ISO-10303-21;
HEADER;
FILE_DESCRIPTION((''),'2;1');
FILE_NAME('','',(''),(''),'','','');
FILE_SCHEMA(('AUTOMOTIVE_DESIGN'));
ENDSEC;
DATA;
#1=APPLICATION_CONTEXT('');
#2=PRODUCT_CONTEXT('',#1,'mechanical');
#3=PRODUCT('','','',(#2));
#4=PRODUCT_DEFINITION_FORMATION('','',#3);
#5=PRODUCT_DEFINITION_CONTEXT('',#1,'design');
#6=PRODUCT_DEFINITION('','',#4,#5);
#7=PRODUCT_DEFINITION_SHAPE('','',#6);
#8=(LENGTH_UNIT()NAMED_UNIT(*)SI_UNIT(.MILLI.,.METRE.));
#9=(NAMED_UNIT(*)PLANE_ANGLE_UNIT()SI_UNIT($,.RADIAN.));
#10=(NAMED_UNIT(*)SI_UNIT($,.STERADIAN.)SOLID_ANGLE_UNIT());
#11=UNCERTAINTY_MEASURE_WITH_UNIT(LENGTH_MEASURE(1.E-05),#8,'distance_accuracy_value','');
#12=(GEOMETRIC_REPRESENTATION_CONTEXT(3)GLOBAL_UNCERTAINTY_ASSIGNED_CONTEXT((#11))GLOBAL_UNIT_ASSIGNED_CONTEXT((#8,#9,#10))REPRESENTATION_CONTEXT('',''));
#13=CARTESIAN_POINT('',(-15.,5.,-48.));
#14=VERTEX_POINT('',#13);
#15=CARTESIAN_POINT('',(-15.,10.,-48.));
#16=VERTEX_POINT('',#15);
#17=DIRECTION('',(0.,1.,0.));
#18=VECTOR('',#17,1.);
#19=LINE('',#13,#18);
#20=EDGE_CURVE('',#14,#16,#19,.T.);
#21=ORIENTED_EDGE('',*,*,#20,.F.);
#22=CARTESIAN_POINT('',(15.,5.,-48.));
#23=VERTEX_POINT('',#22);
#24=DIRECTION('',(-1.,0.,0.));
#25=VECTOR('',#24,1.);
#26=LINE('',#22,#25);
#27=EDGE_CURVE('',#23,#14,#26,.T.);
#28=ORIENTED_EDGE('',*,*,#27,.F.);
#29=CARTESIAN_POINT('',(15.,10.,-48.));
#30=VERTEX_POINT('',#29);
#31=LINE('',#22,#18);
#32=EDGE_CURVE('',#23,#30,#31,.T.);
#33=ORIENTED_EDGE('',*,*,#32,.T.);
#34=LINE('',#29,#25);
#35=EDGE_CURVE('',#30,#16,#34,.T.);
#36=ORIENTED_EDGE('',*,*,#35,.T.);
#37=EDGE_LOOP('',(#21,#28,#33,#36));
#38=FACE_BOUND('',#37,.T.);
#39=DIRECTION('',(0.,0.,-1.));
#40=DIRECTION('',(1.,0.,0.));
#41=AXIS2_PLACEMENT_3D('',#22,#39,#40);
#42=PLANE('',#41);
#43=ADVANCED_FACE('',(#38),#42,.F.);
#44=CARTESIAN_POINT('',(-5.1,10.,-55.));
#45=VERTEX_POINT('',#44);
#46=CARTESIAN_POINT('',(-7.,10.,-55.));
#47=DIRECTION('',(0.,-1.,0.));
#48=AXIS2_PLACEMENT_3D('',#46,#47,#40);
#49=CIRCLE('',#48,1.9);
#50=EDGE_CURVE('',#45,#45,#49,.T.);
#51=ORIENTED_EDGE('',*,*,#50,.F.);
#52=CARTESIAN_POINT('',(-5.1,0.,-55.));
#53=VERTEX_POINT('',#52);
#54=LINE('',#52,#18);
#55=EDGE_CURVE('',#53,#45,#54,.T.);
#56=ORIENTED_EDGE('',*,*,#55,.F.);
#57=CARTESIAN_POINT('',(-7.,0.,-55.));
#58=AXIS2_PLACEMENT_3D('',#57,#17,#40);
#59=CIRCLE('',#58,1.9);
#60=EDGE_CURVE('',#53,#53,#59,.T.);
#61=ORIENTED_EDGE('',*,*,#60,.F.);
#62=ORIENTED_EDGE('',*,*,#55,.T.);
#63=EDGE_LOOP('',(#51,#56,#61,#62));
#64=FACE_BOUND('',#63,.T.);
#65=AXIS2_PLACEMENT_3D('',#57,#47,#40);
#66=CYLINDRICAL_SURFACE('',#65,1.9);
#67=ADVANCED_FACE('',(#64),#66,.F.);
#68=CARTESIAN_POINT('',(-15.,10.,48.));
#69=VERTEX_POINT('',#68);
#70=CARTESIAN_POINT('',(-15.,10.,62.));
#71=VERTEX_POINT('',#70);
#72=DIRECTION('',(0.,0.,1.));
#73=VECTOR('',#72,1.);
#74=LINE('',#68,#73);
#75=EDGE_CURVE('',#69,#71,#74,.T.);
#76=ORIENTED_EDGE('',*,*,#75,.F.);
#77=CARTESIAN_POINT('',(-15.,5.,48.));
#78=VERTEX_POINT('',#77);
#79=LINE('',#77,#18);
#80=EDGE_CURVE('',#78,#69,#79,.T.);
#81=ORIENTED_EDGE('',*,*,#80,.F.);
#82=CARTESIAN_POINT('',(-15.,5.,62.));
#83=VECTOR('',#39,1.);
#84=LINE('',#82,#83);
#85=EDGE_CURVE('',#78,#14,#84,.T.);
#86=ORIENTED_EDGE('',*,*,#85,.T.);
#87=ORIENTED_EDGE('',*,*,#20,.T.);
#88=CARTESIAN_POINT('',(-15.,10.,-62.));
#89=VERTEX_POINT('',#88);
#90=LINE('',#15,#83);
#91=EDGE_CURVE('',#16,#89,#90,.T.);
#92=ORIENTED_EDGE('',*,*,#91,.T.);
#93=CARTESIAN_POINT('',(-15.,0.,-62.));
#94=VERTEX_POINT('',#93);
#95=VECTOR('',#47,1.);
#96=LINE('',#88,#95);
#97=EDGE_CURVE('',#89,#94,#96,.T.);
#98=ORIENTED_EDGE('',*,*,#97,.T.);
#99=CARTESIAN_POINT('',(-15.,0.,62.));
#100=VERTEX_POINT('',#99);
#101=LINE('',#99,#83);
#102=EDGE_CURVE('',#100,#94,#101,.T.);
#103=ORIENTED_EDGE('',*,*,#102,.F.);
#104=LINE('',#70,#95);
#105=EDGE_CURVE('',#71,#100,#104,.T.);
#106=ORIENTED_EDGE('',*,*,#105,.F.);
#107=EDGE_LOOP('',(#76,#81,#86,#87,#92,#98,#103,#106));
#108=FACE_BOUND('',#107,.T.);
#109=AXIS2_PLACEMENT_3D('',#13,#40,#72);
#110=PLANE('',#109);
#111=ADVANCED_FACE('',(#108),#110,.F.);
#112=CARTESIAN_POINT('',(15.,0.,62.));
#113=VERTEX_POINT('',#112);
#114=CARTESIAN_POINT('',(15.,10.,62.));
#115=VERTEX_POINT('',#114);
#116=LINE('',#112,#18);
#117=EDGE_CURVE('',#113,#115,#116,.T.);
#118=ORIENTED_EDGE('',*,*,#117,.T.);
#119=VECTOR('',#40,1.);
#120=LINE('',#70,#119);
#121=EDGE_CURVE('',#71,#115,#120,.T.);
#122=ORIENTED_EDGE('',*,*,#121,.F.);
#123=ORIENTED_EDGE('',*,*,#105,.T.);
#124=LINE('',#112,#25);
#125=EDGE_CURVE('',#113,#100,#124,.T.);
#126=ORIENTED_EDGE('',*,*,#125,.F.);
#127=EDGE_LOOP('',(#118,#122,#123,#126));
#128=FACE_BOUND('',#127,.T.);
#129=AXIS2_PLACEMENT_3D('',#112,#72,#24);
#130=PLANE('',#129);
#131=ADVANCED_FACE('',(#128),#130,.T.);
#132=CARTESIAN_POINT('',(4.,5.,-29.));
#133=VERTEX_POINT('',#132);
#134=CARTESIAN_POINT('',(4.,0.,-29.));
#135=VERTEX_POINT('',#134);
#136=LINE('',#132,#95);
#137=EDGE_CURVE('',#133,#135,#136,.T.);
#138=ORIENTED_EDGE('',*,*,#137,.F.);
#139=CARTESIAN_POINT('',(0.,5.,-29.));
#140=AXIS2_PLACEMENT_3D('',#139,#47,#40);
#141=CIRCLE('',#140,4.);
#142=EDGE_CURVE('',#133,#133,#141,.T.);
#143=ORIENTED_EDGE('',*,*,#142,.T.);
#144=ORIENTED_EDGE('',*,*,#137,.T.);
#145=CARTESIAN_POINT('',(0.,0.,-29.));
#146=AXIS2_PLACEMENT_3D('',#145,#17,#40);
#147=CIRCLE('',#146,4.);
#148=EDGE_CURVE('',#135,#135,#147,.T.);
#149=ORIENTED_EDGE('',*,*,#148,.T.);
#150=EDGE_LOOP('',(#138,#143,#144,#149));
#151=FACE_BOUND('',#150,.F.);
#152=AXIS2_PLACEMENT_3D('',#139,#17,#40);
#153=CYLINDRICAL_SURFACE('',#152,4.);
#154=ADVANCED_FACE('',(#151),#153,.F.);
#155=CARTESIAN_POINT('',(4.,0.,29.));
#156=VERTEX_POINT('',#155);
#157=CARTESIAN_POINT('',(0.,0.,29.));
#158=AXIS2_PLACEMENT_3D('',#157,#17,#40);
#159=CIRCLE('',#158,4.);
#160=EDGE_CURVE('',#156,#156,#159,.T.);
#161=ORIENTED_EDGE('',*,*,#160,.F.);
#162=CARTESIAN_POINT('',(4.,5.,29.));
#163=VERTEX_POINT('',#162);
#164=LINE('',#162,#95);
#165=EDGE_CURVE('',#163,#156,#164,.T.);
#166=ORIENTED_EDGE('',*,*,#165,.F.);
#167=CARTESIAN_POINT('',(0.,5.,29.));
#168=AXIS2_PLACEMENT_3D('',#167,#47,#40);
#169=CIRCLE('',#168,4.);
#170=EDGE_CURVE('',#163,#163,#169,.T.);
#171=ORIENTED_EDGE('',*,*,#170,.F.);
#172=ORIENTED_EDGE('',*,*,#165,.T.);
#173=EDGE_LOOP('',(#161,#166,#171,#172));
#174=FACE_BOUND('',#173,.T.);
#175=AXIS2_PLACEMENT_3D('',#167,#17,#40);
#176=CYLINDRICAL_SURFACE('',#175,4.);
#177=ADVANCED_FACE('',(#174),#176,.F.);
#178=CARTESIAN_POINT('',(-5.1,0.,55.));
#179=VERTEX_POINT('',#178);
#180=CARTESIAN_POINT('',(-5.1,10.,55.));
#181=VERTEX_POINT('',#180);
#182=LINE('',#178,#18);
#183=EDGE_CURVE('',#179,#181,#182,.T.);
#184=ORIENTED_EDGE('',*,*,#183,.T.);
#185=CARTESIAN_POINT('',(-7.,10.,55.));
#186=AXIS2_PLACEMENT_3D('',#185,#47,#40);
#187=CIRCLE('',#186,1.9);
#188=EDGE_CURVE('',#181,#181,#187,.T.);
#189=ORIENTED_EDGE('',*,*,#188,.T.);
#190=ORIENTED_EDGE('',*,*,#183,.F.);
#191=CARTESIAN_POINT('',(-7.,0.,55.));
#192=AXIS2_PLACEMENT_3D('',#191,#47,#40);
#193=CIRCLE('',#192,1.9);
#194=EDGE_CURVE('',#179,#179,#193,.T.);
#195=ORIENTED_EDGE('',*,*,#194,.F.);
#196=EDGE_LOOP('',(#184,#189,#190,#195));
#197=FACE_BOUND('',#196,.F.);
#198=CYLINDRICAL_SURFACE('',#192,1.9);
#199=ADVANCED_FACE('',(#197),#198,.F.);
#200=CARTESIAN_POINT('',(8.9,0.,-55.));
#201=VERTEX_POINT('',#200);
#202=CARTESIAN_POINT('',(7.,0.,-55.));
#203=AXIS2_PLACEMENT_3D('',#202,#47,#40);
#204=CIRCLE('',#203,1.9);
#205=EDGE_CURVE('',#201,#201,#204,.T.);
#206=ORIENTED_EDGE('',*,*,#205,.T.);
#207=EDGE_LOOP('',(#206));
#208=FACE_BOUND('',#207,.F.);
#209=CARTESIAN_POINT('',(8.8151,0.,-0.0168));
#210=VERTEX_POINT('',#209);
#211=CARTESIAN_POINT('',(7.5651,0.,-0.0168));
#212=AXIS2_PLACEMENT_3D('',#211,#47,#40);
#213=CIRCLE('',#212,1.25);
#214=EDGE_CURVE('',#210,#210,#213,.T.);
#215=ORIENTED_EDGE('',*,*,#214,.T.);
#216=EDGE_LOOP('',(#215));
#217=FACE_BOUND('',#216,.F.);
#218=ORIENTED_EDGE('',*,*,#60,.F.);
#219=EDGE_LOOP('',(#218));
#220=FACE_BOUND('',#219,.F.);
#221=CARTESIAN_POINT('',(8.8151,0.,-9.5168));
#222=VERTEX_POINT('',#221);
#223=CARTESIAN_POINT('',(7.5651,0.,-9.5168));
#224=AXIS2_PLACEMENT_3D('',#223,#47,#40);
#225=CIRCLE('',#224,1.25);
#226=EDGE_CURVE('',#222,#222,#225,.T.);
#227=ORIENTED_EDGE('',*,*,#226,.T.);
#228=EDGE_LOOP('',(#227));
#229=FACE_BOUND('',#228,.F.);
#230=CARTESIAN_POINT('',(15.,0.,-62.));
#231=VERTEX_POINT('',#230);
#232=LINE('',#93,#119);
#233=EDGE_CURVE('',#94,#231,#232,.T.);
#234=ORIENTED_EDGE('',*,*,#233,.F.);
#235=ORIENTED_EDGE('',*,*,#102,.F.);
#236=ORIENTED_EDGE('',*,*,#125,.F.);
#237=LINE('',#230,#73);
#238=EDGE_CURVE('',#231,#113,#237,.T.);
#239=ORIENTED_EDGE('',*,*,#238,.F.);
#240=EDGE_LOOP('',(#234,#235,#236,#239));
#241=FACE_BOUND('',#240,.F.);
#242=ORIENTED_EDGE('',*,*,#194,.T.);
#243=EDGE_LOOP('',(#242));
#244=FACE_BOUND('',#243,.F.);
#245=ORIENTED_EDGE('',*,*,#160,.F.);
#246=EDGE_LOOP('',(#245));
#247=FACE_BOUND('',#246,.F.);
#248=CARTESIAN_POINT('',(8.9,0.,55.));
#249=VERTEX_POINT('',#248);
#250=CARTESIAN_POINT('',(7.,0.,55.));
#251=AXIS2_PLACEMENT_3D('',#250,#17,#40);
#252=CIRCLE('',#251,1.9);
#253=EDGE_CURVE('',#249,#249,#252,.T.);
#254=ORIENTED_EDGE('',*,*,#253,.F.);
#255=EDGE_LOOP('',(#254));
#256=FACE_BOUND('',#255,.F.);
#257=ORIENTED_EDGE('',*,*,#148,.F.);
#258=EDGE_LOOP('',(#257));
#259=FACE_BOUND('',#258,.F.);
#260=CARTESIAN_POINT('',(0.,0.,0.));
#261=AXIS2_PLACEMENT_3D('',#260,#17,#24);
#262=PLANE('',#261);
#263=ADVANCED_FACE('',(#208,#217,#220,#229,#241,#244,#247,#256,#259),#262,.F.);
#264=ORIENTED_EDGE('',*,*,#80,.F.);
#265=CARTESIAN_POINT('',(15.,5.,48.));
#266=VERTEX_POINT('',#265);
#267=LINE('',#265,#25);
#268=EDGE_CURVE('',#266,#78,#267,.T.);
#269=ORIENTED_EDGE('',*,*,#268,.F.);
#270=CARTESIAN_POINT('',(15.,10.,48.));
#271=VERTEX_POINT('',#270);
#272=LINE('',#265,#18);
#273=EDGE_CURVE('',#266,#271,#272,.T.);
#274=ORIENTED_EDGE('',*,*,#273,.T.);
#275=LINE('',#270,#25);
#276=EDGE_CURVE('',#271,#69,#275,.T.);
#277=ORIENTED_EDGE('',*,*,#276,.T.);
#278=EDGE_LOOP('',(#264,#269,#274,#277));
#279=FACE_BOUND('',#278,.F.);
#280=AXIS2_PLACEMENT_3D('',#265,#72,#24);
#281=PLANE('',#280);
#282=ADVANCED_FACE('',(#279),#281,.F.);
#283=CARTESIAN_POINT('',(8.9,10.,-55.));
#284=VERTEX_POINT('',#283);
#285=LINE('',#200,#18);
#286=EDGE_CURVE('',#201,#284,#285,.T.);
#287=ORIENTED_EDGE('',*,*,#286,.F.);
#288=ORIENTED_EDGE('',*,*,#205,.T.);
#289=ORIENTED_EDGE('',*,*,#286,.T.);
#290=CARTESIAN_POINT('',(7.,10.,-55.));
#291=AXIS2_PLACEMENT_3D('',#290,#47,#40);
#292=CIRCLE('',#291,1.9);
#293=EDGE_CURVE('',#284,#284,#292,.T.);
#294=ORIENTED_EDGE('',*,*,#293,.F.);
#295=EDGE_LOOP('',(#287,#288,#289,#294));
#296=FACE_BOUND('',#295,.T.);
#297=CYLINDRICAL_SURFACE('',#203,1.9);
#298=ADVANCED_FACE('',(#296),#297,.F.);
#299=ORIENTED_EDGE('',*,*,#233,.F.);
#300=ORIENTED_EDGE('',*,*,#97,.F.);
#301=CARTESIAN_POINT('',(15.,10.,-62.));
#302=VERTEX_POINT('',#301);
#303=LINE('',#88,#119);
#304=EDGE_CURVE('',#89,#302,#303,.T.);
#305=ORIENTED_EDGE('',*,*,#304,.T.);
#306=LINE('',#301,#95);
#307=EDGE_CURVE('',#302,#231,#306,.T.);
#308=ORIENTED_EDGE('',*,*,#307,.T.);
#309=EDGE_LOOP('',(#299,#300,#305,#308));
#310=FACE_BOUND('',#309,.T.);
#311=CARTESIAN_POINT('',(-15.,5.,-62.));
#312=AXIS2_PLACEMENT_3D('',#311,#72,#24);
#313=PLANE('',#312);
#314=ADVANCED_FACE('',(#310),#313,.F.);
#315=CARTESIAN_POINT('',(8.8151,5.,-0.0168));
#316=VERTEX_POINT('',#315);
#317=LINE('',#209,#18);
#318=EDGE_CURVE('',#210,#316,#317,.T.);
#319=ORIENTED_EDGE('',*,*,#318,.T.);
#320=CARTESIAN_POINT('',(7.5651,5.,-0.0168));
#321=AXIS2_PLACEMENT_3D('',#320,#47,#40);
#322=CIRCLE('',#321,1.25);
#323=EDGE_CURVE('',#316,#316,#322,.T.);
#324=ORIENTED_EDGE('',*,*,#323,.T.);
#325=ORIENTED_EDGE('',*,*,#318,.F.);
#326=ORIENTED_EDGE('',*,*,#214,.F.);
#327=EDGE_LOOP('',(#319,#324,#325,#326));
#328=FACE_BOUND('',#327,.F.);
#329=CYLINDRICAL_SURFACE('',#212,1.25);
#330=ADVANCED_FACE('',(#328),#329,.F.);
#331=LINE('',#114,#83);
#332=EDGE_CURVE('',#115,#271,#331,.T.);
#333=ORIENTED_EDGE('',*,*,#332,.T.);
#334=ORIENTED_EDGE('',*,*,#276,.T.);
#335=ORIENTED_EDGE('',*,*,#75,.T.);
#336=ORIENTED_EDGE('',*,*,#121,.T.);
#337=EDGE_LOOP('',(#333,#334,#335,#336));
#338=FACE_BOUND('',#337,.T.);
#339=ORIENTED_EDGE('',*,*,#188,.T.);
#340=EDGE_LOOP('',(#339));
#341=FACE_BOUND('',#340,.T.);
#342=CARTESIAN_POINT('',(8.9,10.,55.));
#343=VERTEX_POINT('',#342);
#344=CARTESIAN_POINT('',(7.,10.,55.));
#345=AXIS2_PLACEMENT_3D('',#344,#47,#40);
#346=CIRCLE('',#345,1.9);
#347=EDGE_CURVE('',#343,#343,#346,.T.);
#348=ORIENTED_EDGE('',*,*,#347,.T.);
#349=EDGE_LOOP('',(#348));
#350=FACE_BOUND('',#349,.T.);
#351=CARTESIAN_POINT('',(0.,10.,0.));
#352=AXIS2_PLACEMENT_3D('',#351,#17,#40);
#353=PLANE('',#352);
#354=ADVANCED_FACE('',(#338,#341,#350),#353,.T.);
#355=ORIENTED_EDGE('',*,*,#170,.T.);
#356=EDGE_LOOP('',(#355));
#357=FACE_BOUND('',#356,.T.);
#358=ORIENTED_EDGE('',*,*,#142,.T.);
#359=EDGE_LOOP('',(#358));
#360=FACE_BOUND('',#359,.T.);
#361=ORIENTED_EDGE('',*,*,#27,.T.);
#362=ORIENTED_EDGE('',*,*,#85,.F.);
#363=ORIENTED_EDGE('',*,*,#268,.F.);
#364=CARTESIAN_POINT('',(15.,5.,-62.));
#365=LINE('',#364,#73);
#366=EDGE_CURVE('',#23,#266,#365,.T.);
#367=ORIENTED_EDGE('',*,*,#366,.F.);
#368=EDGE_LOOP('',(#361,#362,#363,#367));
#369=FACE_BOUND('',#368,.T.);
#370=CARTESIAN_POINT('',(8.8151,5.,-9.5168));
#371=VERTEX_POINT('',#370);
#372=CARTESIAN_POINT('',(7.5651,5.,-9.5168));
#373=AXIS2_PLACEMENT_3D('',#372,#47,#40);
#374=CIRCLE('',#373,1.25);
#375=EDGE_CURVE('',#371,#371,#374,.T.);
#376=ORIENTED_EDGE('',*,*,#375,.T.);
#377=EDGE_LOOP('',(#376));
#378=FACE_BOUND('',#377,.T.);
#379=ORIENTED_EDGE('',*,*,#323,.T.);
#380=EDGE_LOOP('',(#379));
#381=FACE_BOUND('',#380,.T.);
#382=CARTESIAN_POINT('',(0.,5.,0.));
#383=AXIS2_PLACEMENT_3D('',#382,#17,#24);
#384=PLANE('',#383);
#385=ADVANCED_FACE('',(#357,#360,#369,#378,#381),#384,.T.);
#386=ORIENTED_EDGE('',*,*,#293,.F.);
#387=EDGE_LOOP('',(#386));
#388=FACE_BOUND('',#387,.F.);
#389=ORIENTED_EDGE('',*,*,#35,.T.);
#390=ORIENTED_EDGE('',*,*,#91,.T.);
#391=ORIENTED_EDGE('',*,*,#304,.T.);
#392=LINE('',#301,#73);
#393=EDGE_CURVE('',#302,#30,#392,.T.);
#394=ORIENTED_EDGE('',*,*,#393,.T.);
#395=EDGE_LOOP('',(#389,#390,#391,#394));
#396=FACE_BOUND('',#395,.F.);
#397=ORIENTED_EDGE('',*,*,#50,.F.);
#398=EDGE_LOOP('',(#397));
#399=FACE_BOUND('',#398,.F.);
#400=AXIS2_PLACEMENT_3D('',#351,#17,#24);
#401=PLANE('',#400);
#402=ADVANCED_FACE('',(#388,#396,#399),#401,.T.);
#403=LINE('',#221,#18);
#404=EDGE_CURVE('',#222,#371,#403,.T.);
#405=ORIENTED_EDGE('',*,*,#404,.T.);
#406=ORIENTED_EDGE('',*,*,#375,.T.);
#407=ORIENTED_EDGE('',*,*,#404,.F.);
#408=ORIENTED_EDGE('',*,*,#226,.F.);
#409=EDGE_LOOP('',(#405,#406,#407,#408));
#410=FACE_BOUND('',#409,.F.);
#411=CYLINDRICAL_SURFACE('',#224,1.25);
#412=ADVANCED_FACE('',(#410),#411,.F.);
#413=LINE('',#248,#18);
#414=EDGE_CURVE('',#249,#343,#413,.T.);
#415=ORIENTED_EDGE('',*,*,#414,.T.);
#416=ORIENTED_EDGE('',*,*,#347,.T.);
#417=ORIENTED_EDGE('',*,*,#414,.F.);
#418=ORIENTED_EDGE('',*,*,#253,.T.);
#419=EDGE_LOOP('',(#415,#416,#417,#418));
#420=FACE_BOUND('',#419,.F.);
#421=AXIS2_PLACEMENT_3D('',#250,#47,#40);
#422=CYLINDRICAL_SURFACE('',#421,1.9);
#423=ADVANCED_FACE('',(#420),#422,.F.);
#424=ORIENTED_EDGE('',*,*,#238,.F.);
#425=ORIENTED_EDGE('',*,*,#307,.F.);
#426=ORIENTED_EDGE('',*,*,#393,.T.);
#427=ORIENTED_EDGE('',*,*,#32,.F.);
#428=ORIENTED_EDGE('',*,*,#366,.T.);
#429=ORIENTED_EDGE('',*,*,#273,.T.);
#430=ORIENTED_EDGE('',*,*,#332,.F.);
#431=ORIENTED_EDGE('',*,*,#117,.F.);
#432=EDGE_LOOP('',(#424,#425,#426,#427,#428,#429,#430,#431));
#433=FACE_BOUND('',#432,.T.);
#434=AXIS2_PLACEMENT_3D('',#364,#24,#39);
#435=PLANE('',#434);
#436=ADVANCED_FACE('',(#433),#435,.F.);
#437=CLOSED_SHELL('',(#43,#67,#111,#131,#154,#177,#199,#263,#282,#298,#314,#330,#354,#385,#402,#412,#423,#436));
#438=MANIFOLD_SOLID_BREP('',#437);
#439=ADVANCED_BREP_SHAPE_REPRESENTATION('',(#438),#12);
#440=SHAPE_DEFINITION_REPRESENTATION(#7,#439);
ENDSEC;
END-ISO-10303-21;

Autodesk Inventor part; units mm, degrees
ref_plane "YZ Plane" through (0, 0, 0) normal (1, 0, 0) x (0, 1, 0)
ref_plane "XZ Plane" through (0, 0, 0) normal (0, 1, 0) x (-1, 0, 0)
ref_plane "XY Plane" through (0, 0, 0) normal (0, 0, 1) x (1, 0, 0)
sketch "Эскиз1" plane through (0, 0, 0) normal (0, 1, 0) x (-1, 0, 0)
  line L0 (-15, 62) -> (15, 62)
  line L1 (15, 62) -> (15, -62)
  line L2 (15, -62) -> (-15, -62)
  line L3 (-15, -62) -> (-15, 62)
  line L4 (-15, 62) -> (15, -62) construction
  line L5 (15, 62) -> (-15, -62) construction
  point P0 (0, 0)
  dimension "d0" = 30
  dimension "d1" = 124
extrude "Выдавливание1" add sketch "Эскиз1" along normal blind 5
sketch "Эскиз2" plane through (0, 5, 0) normal (0, 1, 0) x (1, 0, 0)
  line L0 (-15, -62) -> (15, -62) projected
  line L1 (15, -62) -> (15, 62) projected
  line L2 (-15, -62) -> (15, -62)
  line L3 (15, -62) -> (15, -48)
  line L4 (15, -48) -> (-15, -48)
  line L5 (-15, -48) -> (-15, -62)
  point P0 (0, 0)
  dimension "d4" = 14
extrude "Выдавливание2" add sketch "Эскиз2" along normal blind 5
mirror "Зеркальное отражение1" about plane through (0, 0, 0) normal (0, 0, 1) of "Выдавливание2"
sketch "Эскиз3" plane through (0, 5, 0) normal (0, 1, 0) x (1, 0, 0)
  line L0 (15, 48) -> (-15, 48) projected
  line L1 (0, 48) -> (0, 29)
  circle A0 centre (0, 29) radius 4
  point P0 (0, 0)
  dimension "d7" = 19
  dimension "d8" = 8
extrude "Выдавливание3" cut sketch "Эскиз3" against normal blind 15
mirror "Зеркальное отражение2" about plane through (0, 0, 0) normal (0, 0, 1) of "Выдавливание3"
sketch "Эскиз4" plane through (0, 0, 0) normal (0, -1, 0) x (1, 0, 0)
  line L0 (15, -62) -> (15, 62) projected
  line L1 (15, 48) -> (-15, 48) projected
  line L2 (15, 62) -> (-15, 62)
  line L3 (-15, 62) -> (-15, 48)
  line L4 (-15, 48) -> (15, 48)
  line L5 (15, 48) -> (15, 62)
  line L6 (15, 62) -> (-15, 62) projected
  line L7 (0, 62) -> (0, 55)
  line L8 (0, 55) -> (7, 55)
  circle A0 centre (7, 55) radius 1.9
  circle A1 centre (-7, 55) radius 1.9
  point P0 (0, 0)
  dimension "d11" = 7
  dimension "d12" = 7
  dimension "d13" = 3.8
extrude "Выдавливание4" cut sketch "Эскиз4" against normal through all contours A0 | A1
mirror "Зеркальное отражение3" about plane through (0, 0, 0) normal (0, 0, 1) of "Выдавливание4"
sketch "Эскиз5" plane through (0, 0, 0) normal (0, -1, 0) x (1, 0, 0)
  line L0 (15.3651, -14.5668) -> (15.3651, -14.0542)
  line L1 (15.3651, -14.0542) -> (13.9311, -13.9625)
  arc A0 (13.9311, -9.7711) -> (13.9311, -13.9625) centre (14.0651, -11.8668) ccw
  line L2 (13.9311, -9.7711) -> (15.3651, -9.6794)
  line L3 (15.3651, -9.6794) -> (15.3651, -5.3911)
  arc A1 (15.3651, -5.3911) -> (15.3358, -5.3204) centre (15.2651, -5.3911) ccw
  line L4 (15.3358, -5.3204) -> (15.0115, -4.9961)
  arc A2 (14.8651, -4.6426) -> (15.0115, -4.9961) centre (15.3651, -4.6426) ccw
  line L5 (14.8651, -4.6426) -> (14.8651, 5.0332)
  arc A3 (14.8651, 5.0332) -> (14.7651, 5.1332) centre (14.7651, 5.0332) ccw
  line L6 (14.7651, 5.1332) -> (5.6151, 5.1332)
  arc A4 (5.6151, 5.1332) -> (5.5151, 5.0332) centre (5.6151, 5.0332) ccw
  line L7 (5.5151, 5.0332) -> (5.5151, 2.1074)
  arc A5 (5.3686, 1.7539) -> (5.5151, 2.1074) centre (5.0151, 2.1074) ccw
  line L8 (5.3686, 1.7539) -> (5.0444, 1.4296)
  arc A6 (5.0444, 1.4296) -> (5.0151, 1.3589) centre (5.1151, 1.3589) ccw
  line L9 (5.0151, 1.3589) -> (5.0151, -1.3926)
  arc A7 (5.0151, -1.3926) -> (5.0444, -1.4633) centre (5.1151, -1.3926) ccw
  line L10 (5.0444, -1.4633) -> (5.3686, -1.7875)
  arc A8 (5.5151, -2.1411) -> (5.3686, -1.7875) centre (5.0151, -2.1411) ccw
  line L11 (5.5151, -2.1411) -> (5.5151, -7.3926)
  arc A9 (5.3686, -7.7461) -> (5.5151, -7.3926) centre (5.0151, -7.3926) ccw
  line L12 (5.3686, -7.7461) -> (5.0444, -8.0704)
  arc A10 (5.0444, -8.0704) -> (5.0151, -8.1411) centre (5.1151, -8.1411) ccw
  line L13 (5.0151, -8.1411) -> (5.0151, -10.8926)
  arc A11 (5.0151, -10.8926) -> (5.0444, -10.9633) centre (5.1151, -10.8926) ccw
  line L14 (5.0444, -10.9633) -> (5.3686, -11.2875)
  arc A12 (5.5151, -11.6411) -> (5.3686, -11.2875) centre (5.0151, -11.6411) ccw
  line L15 (5.5151, -11.6411) -> (5.5151, -14.5668)
  arc A13 (5.5151, -14.5668) -> (5.6151, -14.6668) centre (5.6151, -14.5668) ccw
  line L16 (5.6151, -14.6668) -> (15.2651, -14.6668)
  arc A14 (15.2651, -14.6668) -> (15.3651, -14.5668) centre (15.2651, -14.5668) ccw
  circle A15 centre (7.5651, -9.5168) radius 1.25
  circle A16 centre (7.5651, -0.0168) radius 1.25
  line L17 (9.8151, 1.1565) -> (11.1151, 0.5398)
  line L18 (11.1151, 0.5398) -> (11.1151, 0.5232)
  line L19 (11.1151, 0.5232) -> (9.8151, -0.0768)
  line L20 (9.8151, -0.0768) -> (9.8151, 0.05)
  line L21 (9.8151, 0.05) -> (10.2318, 0.2422)
  line L22 (10.2318, 0.2422) -> (10.2318, 0.8315)
  line L23 (10.2318, 0.8315) -> (9.8151, 1.0292)
  line L24 (9.8151, 1.0292) -> (9.8151, 1.1565)
  spline S0 degree 3 poles (10.7516, -1.6635) (10.7604, -1.6633) (10.7779, -1.6628) (10.8035, -1.6587) (10.8283, -1.6525) (10.8522, -1.6436) (10.875, -1.6318) (10.8968, -1.6176) (10.9178, -1.6011) (10.9376, -1.582) (10.9556, -1.561) (10.9717, -1.5389) (10.985, -1.5155) (10.996, -1.4909) (11.0046, -1.4652) (11.0106, -1.4383) (11.0143, -1.4103) (11.0148, -1.3912) (11.0151, -1.3815) knots 0 0 0 0 0.061965 0.122122 0.180988 0.239933 0.299906 0.359989 0.421776 0.486576 0.551535 0.615018 0.677259 0.73973 0.80305 0.866495 0.931973 1 1 1 1
  spline S1 degree 3 poles (11.0151, -1.3815) (11.0148, -1.3713) (11.0143, -1.3513) (11.0107, -1.322) (11.0044, -1.2941) (10.9958, -1.2674) (10.9848, -1.2419) (10.9712, -1.2178) (10.9549, -1.1951) (10.9365, -1.1738) (10.916, -1.1542) (10.8931, -1.137) (10.8683, -1.1219) (10.8416, -1.1087) (10.8128, -1.098) (10.7819, -1.0899) (10.7492, -1.0834) (10.7267, -1.0813) (10.7151, -1.0802) knots 0 0 0 0 0.064439 0.126547 0.186887 0.245878 0.304041 0.362191 0.420976 0.48066 0.5406 0.600689 0.661936 0.724443 0.789038 0.856314 0.926352 1 1 1 1
  line L25 (10.7151, -1.0802) -> (10.7151, -0.9635)
  spline S2 degree 3 poles (10.7151, -0.9635) (10.7306, -0.9643) (10.761, -0.9657) (10.8053, -0.9727) (10.8477, -0.9827) (10.8877, -0.9969) (10.9258, -1.0145) (10.9619, -1.0355) (10.9957, -1.0605) (11.0269, -1.0888) (11.0556, -1.1195) (11.0803, -1.1527) (11.1013, -1.1876) (11.1188, -1.224) (11.1319, -1.2624) (11.1416, -1.3025) (11.1475, -1.3444) (11.1481, -1.3729) (11.1484, -1.3875) knots 0 0 0 0 0.068791 0.135103 0.198979 0.261904 0.323495 0.385195 0.446969 0.509765 0.572251 0.633405 0.693251 0.752583 0.812579 0.873275 0.93555 1 1 1 1
  spline S3 degree 3 poles (11.1484, -1.3875) (11.1481, -1.4017) (11.1474, -1.4297) (11.1418, -1.4706) (11.133, -1.5095) (11.1206, -1.5464) (11.104, -1.5809) (11.084, -1.6134) (11.0609, -1.6442) (11.0337, -1.6719) (11.0046, -1.6974) (10.9736, -1.7193) (10.9416, -1.7381) (10.9083, -1.7538) (10.8734, -1.7653) (10.8375, -1.7741) (10.8001, -1.779) (10.7748, -1.7798) (10.762, -1.7802) knots 0 0 0 0 0.069475 0.136517 0.200789 0.26383 0.325735 0.387291 0.449509 0.512968 0.576275 0.63758 0.697903 0.757172 0.816599 0.876653 0.93729 1 1 1 1
  spline S4 degree 3 poles (10.762, -1.7802) (10.7439, -1.7795) (10.708, -1.7783) (10.6552, -1.7676) (10.6041, -1.751) (10.563, -1.7309) (10.5298, -1.7107) (10.5026, -1.6924) (10.4732, -1.6711) (10.4418, -1.6463) (10.4082, -1.6187) (10.3723, -1.5878) (10.3346, -1.5536) (10.3089, -1.5296) (10.2956, -1.5171) knots 0 0 0 0 0.098702 0.195672 0.292422 0.391343 0.444462 0.504229 0.570352 0.642546 0.722288 0.807921 0.90047 1 1 1 1
  line L26 (10.2956, -1.5171) -> (9.9484, -1.1919)
  line L27 (9.9484, -1.1919) -> (9.9484, -1.7968)
  line L28 (9.9484, -1.7968) -> (9.8151, -1.7968)
  line L29 (9.8151, -1.7968) -> (9.8151, -0.9135)
  line L30 (9.8151, -0.9135) -> (10.3531, -1.4177)
  spline S5 degree 3 poles (10.3531, -1.4177) (10.3659, -1.4299) (10.3905, -1.4535) (10.4265, -1.4869) (10.4598, -1.5168) (10.4905, -1.5436) (10.5189, -1.5665) (10.5443, -1.5869) (10.5676, -1.6032) (10.5946, -1.621) (10.6276, -1.6381) (10.6679, -1.6529) (10.7094, -1.6619) (10.7374, -1.663) (10.7516, -1.6635) knots 0 0 0 0 0.110803 0.212829 0.306101 0.390647 0.466924 0.534481 0.593587 0.644557 0.7362 0.825024 0.911986 1 1 1 1
  line L31 (10.4651, -2.1735) -> (11.1151, -2.3068)
  line L32 (11.1151, -2.3068) -> (11.1151, -2.8402)
  line L33 (11.1151, -2.8402) -> (10.9818, -2.8402)
  line L34 (10.9818, -2.8402) -> (10.9818, -2.398)
  line L35 (10.9818, -2.398) -> (10.6398, -2.3279)
  spline S6 degree 3 poles (10.6398, -2.3279) (10.6436, -2.3417) (10.651, -2.3684) (10.6592, -2.4077) (10.6641, -2.4451) (10.6648, -2.4693) (10.6651, -2.481) knots 0 0 0 0 0.275068 0.532901 0.773973 1 1 1 1
  spline S7 degree 3 poles (10.6651, -2.481) (10.6648, -2.4956) (10.6642, -2.5241) (10.6582, -2.5659) (10.6489, -2.6057) (10.6358, -2.6436) (10.6192, -2.6796) (10.5983, -2.7133) (10.574, -2.7453) (10.546, -2.775) (10.5152, -2.802) (10.4821, -2.8257) (10.447, -2.8458) (10.4095, -2.862) (10.3702, -2.8749) (10.3285, -2.8835) (10.2849, -2.8892) (10.255, -2.8898) (10.2398, -2.8902) knots 0 0 0 0 0.065808 0.129394 0.190894 0.251281 0.310815 0.370371 0.430768 0.492881 0.555104 0.616067 0.677256 0.73826 0.800762 0.864778 0.931045 1 1 1 1
  spline S8 degree 3 poles (10.2398, -2.8902) (10.2292, -2.8899) (10.2082, -2.8894) (10.1769, -2.8869) (10.1464, -2.8821) (10.1164, -2.8757) (10.0872, -2.8673) (10.0586, -2.8572) (10.0308, -2.8448) (10.0036, -2.8312) (9.9775, -2.8158) (9.9531, -2.7988) (9.9301, -2.7809) (9.9086, -2.7615) (9.8888, -2.7407) (9.8706, -2.7185) (9.8537, -2.6952) (9.8388, -2.6705) (9.8251, -2.6448) (9.8138, -2.6178) (9.8038, -2.5901) (9.7957, -2.5614) (9.7894, -2.5317) (9.7852, -2.5008) (9.7821, -2.4691) (9.7819, -2.4476) (9.7818, -2.4368) knots 0 0 0 0 0.044014 0.087434 0.130118 0.172554 0.214555 0.256298 0.298438 0.340849 0.382715 0.423924 0.464246 0.504074 0.543862 0.583567 0.623094 0.663229 0.703551 0.743938 0.784541 0.82575 0.867757 0.910745 0.954914 1 1 1 1
  spline S9 degree 3 poles (9.7818, -2.4368) (9.782, -2.4238) (9.7825, -2.3983) (9.7878, -2.361) (9.7954, -2.3251) (9.8067, -2.2909) (9.821, -2.258) (9.839, -2.2271) (9.8594, -2.1971) (9.8835, -2.1694) (9.9099, -2.1437) (9.9385, -2.1208) (9.9688, -2.1003) (10.0011, -2.0826) (10.0352, -2.0676) (10.0713, -2.0558) (10.1091, -2.0462) (10.1352, -2.0422) (10.1484, -2.0402) knots 0 0 0 0 0.065421 0.128708 0.190236 0.250724 0.310637 0.370766 0.431615 0.493523 0.555883 0.617342 0.678668 0.740711 0.802985 0.866803 0.932347 1 1 1 1
  line L36 (10.1484, -2.0402) -> (10.1484, -2.1568)
  spline S10 degree 3 poles (10.1484, -2.1568) (10.136, -2.1597) (10.1122, -2.1652) (10.0787, -2.1773) (10.0489, -2.1921) (10.0223, -2.2097) (9.9991, -2.2307) (9.9785, -2.2547) (9.9598, -2.2816) (9.9443, -2.3114) (9.9311, -2.3429) (9.9222, -2.3759) (9.916, -2.4095) (9.9154, -2.4321) (9.9151, -2.4435) knots 0 0 0 0 0.094687 0.181994 0.264377 0.34218 0.418618 0.496509 0.577369 0.661511 0.746733 0.831258 0.915206 1 1 1 1
  spline S11 degree 3 poles (9.9151, -2.4435) (9.9154, -2.4547) (9.916, -2.4766) (9.9206, -2.5088) (9.9277, -2.54) (9.9384, -2.5697) (9.9513, -2.5985) (9.9679, -2.6257) (9.9871, -2.652) (10.0089, -2.6767) (10.0331, -2.6993) (10.0589, -2.7192) (10.0864, -2.7359) (10.1152, -2.7499) (10.1455, -2.7605) (10.1773, -2.7681) (10.2105, -2.7726) (10.2332, -2.7732) (10.2448, -2.7735) knots 0 0 0 0 0.064207 0.126425 0.18768 0.248216 0.308305 0.369661 0.431699 0.495947 0.559758 0.622295 0.683911 0.745092 0.80674 0.869087 0.93329 1 1 1 1
  spline S12 degree 3 poles (10.2448, -2.7735) (10.2552, -2.7733) (10.2756, -2.7728) (10.3055, -2.7689) (10.3337, -2.7621) (10.3605, -2.7526) (10.3859, -2.7406) (10.4098, -2.726) (10.432, -2.7084) (10.4524, -2.6883) (10.4713, -2.6663) (10.4874, -2.642) (10.501, -2.6159) (10.5127, -2.5883) (10.521, -2.5586) (10.5274, -2.5274) (10.531, -2.4942) (10.5315, -2.4716) (10.5318, -2.46) knots 0 0 0 0 0.065351 0.127916 0.18836 0.247216 0.30563 0.36377 0.422661 0.482687 0.5433 0.604118 0.664965 0.727413 0.791468 0.858055 0.927037 1 1 1 1
  spline S13 degree 3 poles (10.5318, -2.46) (10.5315, -2.4499) (10.5311, -2.4291) (10.5278, -2.3972) (10.5225, -2.3636) (10.5153, -2.3286) (10.5057, -2.292) (10.4943, -2.2538) (10.4807, -2.2141) (10.4704, -2.1873) (10.4651, -2.1735) knots 0 0 0 0 0.102203 0.211023 0.3251 0.446502 0.573788 0.708901 0.850358 1 1 1 1
  line L37 (9.8151, -5.6202) -> (11.1151, -6.2368)
  line L38 (11.1151, -6.2368) -> (11.1151, -6.2535)
  line L39 (11.1151, -6.2535) -> (9.8151, -6.8535)
  line L40 (9.8151, -6.8535) -> (9.8151, -6.7267)
  line L41 (9.8151, -6.7267) -> (10.2318, -6.5345)
  line L42 (10.2318, -6.5345) -> (10.2318, -5.9452)
  line L43 (10.2318, -5.9452) -> (9.8151, -5.7475)
  line L44 (9.8151, -5.7475) -> (9.8151, -5.6202)
  spline S14 degree 3 poles (10.4726, -7.1302) (10.496, -7.1307) (10.542, -7.1319) (10.6096, -7.1415) (10.6742, -7.1571) (10.736, -7.1791) (10.7951, -7.2071) (10.8511, -7.2416) (10.9044, -7.2824) (10.9542, -7.329) (10.9997, -7.3801) (11.0397, -7.4348) (11.0731, -7.493) (11.1009, -7.5541) (11.1223, -7.6186) (11.1373, -7.6862) (11.1467, -7.7569) (11.1478, -7.8051) (11.1484, -7.8296) knots 0 0 0 0 0.064558 0.127014 0.187955 0.248014 0.307748 0.368235 0.42947 0.492743 0.556258 0.618217 0.679655 0.741246 0.803415 0.866815 0.932328 1 1 1 1
  spline S15 degree 3 poles (11.1484, -7.8296) (11.1482, -7.8446) (11.1479, -7.8741) (11.1444, -7.9179) (11.1387, -7.9605) (11.1308, -8.0019) (11.1211, -8.0424) (11.1084, -8.0817) (11.0939, -8.12) (11.0772, -8.1571) (11.0585, -8.1927) (11.0379, -8.2269) (11.0155, -8.2594) (10.9915, -8.2904) (10.9653, -8.3194) (10.9378, -8.3473) (10.908, -8.373) (10.8871, -8.3889) (10.8766, -8.3968) knots 0 0 0 0 0.068548 0.135683 0.201215 0.265682 0.329267 0.392395 0.45507 0.517127 0.57879 0.63974 0.700192 0.759806 0.819628 0.879355 0.939512 1 1 1 1
  line L45 (10.8766, -8.3968) -> (10.7984, -8.2947)
  spline S16 degree 3 poles (10.7984, -8.2947) (10.8071, -8.2875) (10.8243, -8.273) (10.8486, -8.2497) (10.8712, -8.2255) (10.8925, -8.2002) (10.9116, -8.1736) (10.9295, -8.1462) (10.9456, -8.1175) (10.9651, -8.0778) (10.9854, -8.026) (11.0025, -7.9607) (11.0133, -7.8925) (11.0145, -7.846) (11.0151, -7.8223) knots 0 0 0 0 0.063163 0.125475 0.187121 0.248294 0.309295 0.36985 0.430973 0.492456 0.616148 0.740844 0.868183 1 1 1 1
  spline S17 degree 3 poles (11.0151, -7.8223) (11.0149, -7.8093) (11.0146, -7.7834) (11.0107, -7.7449) (11.0052, -7.7071) (10.9969, -7.6701) (10.9866, -7.6338) (10.9741, -7.5981) (10.9588, -7.5635) (10.9418, -7.5295) (10.9226, -7.4969) (10.9017, -7.466) (10.8793, -7.437) (10.8553, -7.4099) (10.8298, -7.3846) (10.8025, -7.3613) (10.7736, -7.34) (10.7434, -7.3204) (10.712, -7.3029) (10.6793, -7.2882) (10.6458, -7.2752) (10.6112, -7.2649) (10.5757, -7.2568) (10.5393, -7.2512) (10.5019, -7.2473) (10.4766, -7.247) (10.4638, -7.2468) knots 0 0 0 0 0.043955 0.087502 0.130463 0.172752 0.215403 0.25765 0.300153 0.343121 0.385925 0.427686 0.468818 0.509492 0.549883 0.58998 0.630405 0.670869 0.711384 0.751627 0.791776 0.832459 0.873319 0.914543 0.956924 1 1 1 1
  spline S18 degree 3 poles (10.4638, -7.2468) (10.4446, -7.2473) (10.4069, -7.2482) (10.3516, -7.2564) (10.2987, -7.2689) (10.2484, -7.2875) (10.2001, -7.3105) (10.1547, -7.3396) (10.1115, -7.3732) (10.0714, -7.412) (10.0348, -7.4544) (10.0026, -7.5) (9.9758, -7.5486) (9.9534, -7.5996) (9.9362, -7.6535) (9.9241, -7.7101) (9.9162, -7.7694) (9.9155, -7.8098) (9.9151, -7.8304) knots 0 0 0 0 0.064323 0.12629 0.186726 0.246146 0.305576 0.365429 0.426326 0.48884 0.551725 0.613919 0.675484 0.737334 0.800229 0.864502 0.931041 1 1 1 1
  spline S19 degree 3 poles (9.9151, -7.8304) (9.9157, -7.8531) (9.917, -7.8978) (9.9274, -7.9633) (9.9444, -8.026) (9.9681, -8.0859) (9.999, -8.1429) (10.0364, -8.197) (10.0807, -8.2482) (10.1145, -8.279) (10.1318, -8.2947) knots 0 0 0 0 0.128515 0.252949 0.374755 0.49594 0.617181 0.740909 0.867811 1 1 1 1
  line L46 (10.1318, -8.2947) -> (10.0544, -8.3968)
  spline S20 degree 3 poles (10.0544, -8.3968) (10.0438, -8.3886) (10.0227, -8.3722) (9.9929, -8.3457) (9.9648, -8.3177) (9.9388, -8.2881) (9.9142, -8.2573) (9.8918, -8.2245) (9.8713, -8.1904) (9.8525, -8.155) (9.8358, -8.1183) (9.8215, -8.0804) (9.8092, -8.0415) (9.7991, -8.0015) (9.7912, -7.9604) (9.7859, -7.9183) (9.7823, -7.8751) (9.7819, -7.846) (9.7818, -7.8312) knots 0 0 0 0 0.061674 0.123053 0.183475 0.243727 0.304279 0.364863 0.425946 0.487391 0.54922 0.611144 0.673529 0.736961 0.800785 0.866013 0.932101 1 1 1 1
  spline S21 degree 3 poles (9.7818, -7.8312) (9.7819, -7.8172) (9.7821, -7.7896) (9.7852, -7.7488) (9.7894, -7.709) (9.7958, -7.6705) (9.8034, -7.6329) (9.8135, -7.5967) (9.8249, -7.5614) (9.8382, -7.5272) (9.8532, -7.4942) (9.8703, -7.4623) (9.8891, -7.4316) (9.9093, -7.4018) (9.9316, -7.3733) (9.9556, -7.346) (9.9813, -7.3196) (9.9998, -7.3032) (10.0091, -7.295) knots 0 0 0 0 0.069663 0.13775 0.203917 0.26878 0.332414 0.394754 0.45618 0.516996 0.577396 0.637198 0.696999 0.756756 0.816554 0.876948 0.938132 1 1 1 1
  spline S22 degree 3 poles (10.0091, -7.295) (10.0253, -7.2818) (10.0574, -7.2557) (10.1095, -7.2222) (10.1639, -7.1935) (10.2209, -7.1704) (10.2804, -7.1523) (10.3423, -7.1397) (10.4066, -7.1316) (10.4504, -7.1306) (10.4726, -7.1302) knots 0 0 0 0 0.124329 0.247156 0.36878 0.490734 0.613614 0.738958 0.867311 1 1 1 1
  line L47 (11.0651, -10.2028) -> (11.0651, -9.99)
  line L48 (9.9651, -9.8025) -> (11.0651, -10.2028)
  line L49 (9.9651, -10.3025) -> (9.9651, -9.8025)
  line L50 (11.0651, -10.7028) -> (9.9651, -10.3025)
  line L51 (11.0651, -10.9157) -> (11.0651, -10.7028)
  line L52 (9.9651, -10.5153) -> (11.0651, -10.9157)
  line L53 (9.9651, -10.7153) -> (9.9651, -10.5153)
  line L54 (9.7651, -10.6425) -> (9.9651, -10.7153)
  line L55 (9.7651, -9.5168) -> (9.7651, -10.6425)
  line L56 (11.0651, -9.99) -> (9.7651, -9.5168)
  line L57 (9.8151, -4.8268) -> (9.8151, -4.8102)
  line L58 (9.8151, -4.8102) -> (11.1151, -4.2602)
  line L59 (11.1151, -4.2602) -> (11.1151, -4.3852)
  line L60 (11.1151, -4.3852) -> (10.0906, -4.8185)
  line L61 (10.0906, -4.8185) -> (11.1151, -5.2518)
  line L62 (11.1151, -5.2518) -> (11.1151, -5.3768)
  line L63 (11.1151, -5.3768) -> (9.8151, -4.8268)
  spline S23 degree 3 poles (10.4646, -4.0168) (10.4447, -4.0166) (10.406, -4.0161) (10.3493, -4.0137) (10.2958, -4.0089) (10.2454, -4.0028) (10.1982, -3.9945) (10.1541, -3.9842) (10.1129, -3.9729) (10.0749, -3.9588) (10.0396, -3.9434) (10.0067, -3.9267) (9.9758, -3.9088) (9.9472, -3.8892) (9.9207, -3.8684) (9.8967, -3.8459) (9.8748, -3.8222) (9.8552, -3.7972) (9.8381, -3.771) (9.8228, -3.7443) (9.8104, -3.7165) (9.7998, -3.6883) (9.7917, -3.6593) (9.7861, -3.6295) (9.7822, -3.5991) (9.7819, -3.5785) (9.7818, -3.5681) knots 0 0 0 0 0.065063 0.126773 0.185516 0.240765 0.29298 0.34225 0.388919 0.432776 0.474628 0.514775 0.553606 0.591426 0.628028 0.663804 0.698984 0.733591 0.767628 0.801208 0.834264 0.866981 0.89972 0.932702 0.966176 1 1 1 1
  spline S24 degree 3 poles (9.7818, -3.5681) (9.7819, -3.5579) (9.7823, -3.5377) (9.7858, -3.5077) (9.7915, -3.4786) (9.7994, -3.4503) (9.8092, -3.4225) (9.8219, -3.3958) (9.8365, -3.3697) (9.8531, -3.3443) (9.8722, -3.3201) (9.8933, -3.2971) (9.9169, -3.2757) (9.9427, -3.2558) (9.9704, -3.2368) (10.0005, -3.2194) (10.0328, -3.2033) (10.0674, -3.1886) (10.105, -3.1755) (10.1459, -3.164) (10.1905, -3.1549) (10.2385, -3.1471) (10.29, -3.1408) (10.3451, -3.1365) (10.4037, -3.1339) (10.4439, -3.1336) (10.4646, -3.1335) knots 0 0 0 0 0.033787 0.066622 0.099285 0.131361 0.163585 0.196104 0.228902 0.262158 0.295991 0.330218 0.36506 0.400951 0.43762 0.475708 0.515381 0.556414 0.599765 0.646424 0.696431 0.749782 0.806573 0.867436 0.931887 1 1 1 1
  spline S25 degree 3 poles (10.4646, -3.1335) (10.4854, -3.1336) (10.5259, -3.1339) (10.5849, -3.1365) (10.6402, -3.1409) (10.6919, -3.1469) (10.7399, -3.1541) (10.7842, -3.1639) (10.8249, -3.175) (10.8622, -3.1878) (10.8966, -3.2023) (10.9287, -3.218) (10.9585, -3.2357) (10.9864, -3.2543) (11.012, -3.2745) (11.0356, -3.2958) (11.0568, -3.3189) (11.076, -3.3432) (11.0929, -3.3689) (11.1078, -3.3951) (11.1205, -3.4221) (11.1305, -3.45) (11.1387, -3.4785) (11.1444, -3.5077) (11.1479, -3.5377) (11.1483, -3.5579) (11.1484, -3.5681) knots 0 0 0 0 0.068595 0.133246 0.194313 0.251279 0.304513 0.354235 0.400481 0.443411 0.484015 0.523252 0.561042 0.5979 0.633518 0.668314 0.702496 0.736685 0.770293 0.803437 0.835913 0.86846 0.900847 0.933467 0.966258 1 1 1 1
  spline S26 degree 3 poles (11.1484, -3.5681) (11.1482, -3.5785) (11.1479, -3.599) (11.1444, -3.6294) (11.1387, -3.6591) (11.1305, -3.688) (11.1204, -3.7163) (11.1078, -3.7437) (11.093, -3.7705) (11.0757, -3.7963) (11.0564, -3.8213) (11.0346, -3.8448) (11.0105, -3.867) (10.9843, -3.8881) (10.9556, -3.9074) (10.9248, -3.9258) (10.8915, -3.9423) (10.8562, -3.9582) (10.8178, -3.9719) (10.7767, -3.9842) (10.7323, -3.9942) (10.6848, -4.0025) (10.6341, -4.009) (10.5804, -4.0136) (10.5235, -4.0161) (10.4845, -4.0166) (10.4646, -4.0168) knots 0 0 0 0 0.033788 0.067194 0.099862 0.132567 0.165151 0.197913 0.231319 0.265083 0.299255 0.334399 0.369943 0.406284 0.444064 0.482998 0.523354 0.565537 0.609613 0.656391 0.705885 0.758325 0.813832 0.872795 0.934722 1 1 1 1
  line L64 (10.4651, 2.1332) -> (11.1151, 1.9998)
  line L65 (11.1151, 1.9998) -> (11.1151, 1.4665)
  line L66 (11.1151, 1.4665) -> (10.9818, 1.4665)
  line L67 (10.9818, 1.4665) -> (10.9818, 1.9087)
  line L68 (10.9818, 1.9087) -> (10.6398, 1.9787)
  spline S27 degree 3 poles (10.6398, 1.9787) (10.6436, 1.965) (10.651, 1.9383) (10.6592, 1.899) (10.6641, 1.8616) (10.6648, 1.8374) (10.6651, 1.8256) knots 0 0 0 0 0.275068 0.532901 0.773973 1 1 1 1
  spline S28 degree 3 poles (10.6651, 1.8256) (10.6648, 1.8111) (10.6642, 1.7826) (10.6582, 1.7408) (10.6489, 1.7009) (10.6358, 1.663) (10.6192, 1.6271) (10.5983, 1.5933) (10.574, 1.5613) (10.546, 1.5316) (10.5152, 1.5047) (10.4821, 1.481) (10.447, 1.4609) (10.4095, 1.4447) (10.3702, 1.4318) (10.3285, 1.4232) (10.2849, 1.4175) (10.255, 1.4168) (10.2398, 1.4165) knots 0 0 0 0 0.065808 0.129394 0.190894 0.251281 0.310815 0.370371 0.430768 0.492881 0.555104 0.616067 0.677256 0.73826 0.800762 0.864778 0.931045 1 1 1 1
  spline S29 degree 3 poles (10.2398, 1.4165) (10.2292, 1.4168) (10.2082, 1.4172) (10.1769, 1.4197) (10.1464, 1.4245) (10.1164, 1.431) (10.0872, 1.4394) (10.0586, 1.4495) (10.0308, 1.4619) (10.0036, 1.4755) (9.9775, 1.4908) (9.9531, 1.5078) (9.9301, 1.5258) (9.9086, 1.5451) (9.8888, 1.566) (9.8706, 1.5882) (9.8537, 1.6115) (9.8388, 1.6362) (9.8251, 1.6619) (9.8138, 1.6889) (9.8038, 1.7165) (9.7957, 1.7453) (9.7894, 1.775) (9.7852, 1.8058) (9.7821, 1.8375) (9.7819, 1.859) (9.7818, 1.8699) knots 0 0 0 0 0.044014 0.087434 0.130118 0.172554 0.214555 0.256298 0.298438 0.340849 0.382715 0.423924 0.464246 0.504074 0.543862 0.583567 0.623094 0.663229 0.703551 0.743938 0.784541 0.82575 0.867757 0.910745 0.954914 1 1 1 1
  spline S30 degree 3 poles (9.7818, 1.8699) (9.782, 1.8828) (9.7825, 1.9083) (9.7878, 1.9457) (9.7954, 1.9816) (9.8067, 2.0158) (9.821, 2.0486) (9.839, 2.0796) (9.8594, 2.1096) (9.8835, 2.1372) (9.9099, 2.1629) (9.9385, 2.1859) (9.9688, 2.2064) (10.0011, 2.224) (10.0352, 2.2391) (10.0713, 2.2509) (10.1091, 2.2604) (10.1352, 2.2645) (10.1484, 2.2665) knots 0 0 0 0 0.065421 0.128708 0.190236 0.250724 0.310637 0.370766 0.431615 0.493523 0.555883 0.617342 0.678668 0.740711 0.802985 0.866803 0.932347 1 1 1 1
  line L69 (10.1484, 2.2665) -> (10.1484, 2.1498)
  spline S31 degree 3 poles (10.1484, 2.1498) (10.136, 2.147) (10.1122, 2.1415) (10.0787, 2.1293) (10.0489, 2.1145) (10.0223, 2.0969) (9.9991, 2.0759) (9.9785, 2.052) (9.9598, 2.0251) (9.9443, 1.9952) (9.9311, 1.9637) (9.9222, 1.9307) (9.916, 1.8972) (9.9154, 1.8745) (9.9151, 1.8631) knots 0 0 0 0 0.094687 0.181994 0.264377 0.34218 0.418618 0.496509 0.577369 0.661511 0.746733 0.831258 0.915206 1 1 1 1
  spline S32 degree 3 poles (9.9151, 1.8631) (9.9154, 1.852) (9.916, 1.8301) (9.9206, 1.7978) (9.9277, 1.7667) (9.9384, 1.737) (9.9513, 1.7082) (9.9679, 1.681) (9.9871, 1.6547) (10.0089, 1.63) (10.0331, 1.6074) (10.0589, 1.5874) (10.0864, 1.5708) (10.1152, 1.5568) (10.1455, 1.5461) (10.1773, 1.5386) (10.2105, 1.5341) (10.2332, 1.5335) (10.2448, 1.5332) knots 0 0 0 0 0.064207 0.126425 0.18768 0.248216 0.308305 0.369661 0.431699 0.495947 0.559758 0.622295 0.683911 0.745092 0.80674 0.869087 0.93329 1 1 1 1
  spline S33 degree 3 poles (10.2448, 1.5332) (10.2552, 1.5334) (10.2756, 1.5339) (10.3055, 1.5378) (10.3337, 1.5446) (10.3605, 1.5541) (10.3859, 1.566) (10.4098, 1.5807) (10.432, 1.5983) (10.4524, 1.6184) (10.4713, 1.6404) (10.4874, 1.6647) (10.501, 1.6908) (10.5127, 1.7184) (10.521, 1.7481) (10.5274, 1.7793) (10.531, 1.8124) (10.5315, 1.8351) (10.5318, 1.8467) knots 0 0 0 0 0.065351 0.127916 0.18836 0.247216 0.30563 0.36377 0.422661 0.482687 0.5433 0.604118 0.664965 0.727413 0.791468 0.858055 0.927037 1 1 1 1
  spline S34 degree 3 poles (10.5318, 1.8467) (10.5315, 1.8568) (10.5311, 1.8776) (10.5278, 1.9095) (10.5225, 1.943) (10.5153, 1.9781) (10.5057, 2.0147) (10.4943, 2.0529) (10.4807, 2.0926) (10.4704, 2.1194) (10.4651, 2.1332) knots 0 0 0 0 0.102203 0.211023 0.3251 0.446502 0.573788 0.708901 0.850358 1 1 1 1
  point P0 (0, 0)
  point P1 (7.5651, -9.5168)
extrude "Выдавливание5" cut sketch "Эскиз5" against normal through all contours A15 | A16
properties part number "joint1_gear_holder"
